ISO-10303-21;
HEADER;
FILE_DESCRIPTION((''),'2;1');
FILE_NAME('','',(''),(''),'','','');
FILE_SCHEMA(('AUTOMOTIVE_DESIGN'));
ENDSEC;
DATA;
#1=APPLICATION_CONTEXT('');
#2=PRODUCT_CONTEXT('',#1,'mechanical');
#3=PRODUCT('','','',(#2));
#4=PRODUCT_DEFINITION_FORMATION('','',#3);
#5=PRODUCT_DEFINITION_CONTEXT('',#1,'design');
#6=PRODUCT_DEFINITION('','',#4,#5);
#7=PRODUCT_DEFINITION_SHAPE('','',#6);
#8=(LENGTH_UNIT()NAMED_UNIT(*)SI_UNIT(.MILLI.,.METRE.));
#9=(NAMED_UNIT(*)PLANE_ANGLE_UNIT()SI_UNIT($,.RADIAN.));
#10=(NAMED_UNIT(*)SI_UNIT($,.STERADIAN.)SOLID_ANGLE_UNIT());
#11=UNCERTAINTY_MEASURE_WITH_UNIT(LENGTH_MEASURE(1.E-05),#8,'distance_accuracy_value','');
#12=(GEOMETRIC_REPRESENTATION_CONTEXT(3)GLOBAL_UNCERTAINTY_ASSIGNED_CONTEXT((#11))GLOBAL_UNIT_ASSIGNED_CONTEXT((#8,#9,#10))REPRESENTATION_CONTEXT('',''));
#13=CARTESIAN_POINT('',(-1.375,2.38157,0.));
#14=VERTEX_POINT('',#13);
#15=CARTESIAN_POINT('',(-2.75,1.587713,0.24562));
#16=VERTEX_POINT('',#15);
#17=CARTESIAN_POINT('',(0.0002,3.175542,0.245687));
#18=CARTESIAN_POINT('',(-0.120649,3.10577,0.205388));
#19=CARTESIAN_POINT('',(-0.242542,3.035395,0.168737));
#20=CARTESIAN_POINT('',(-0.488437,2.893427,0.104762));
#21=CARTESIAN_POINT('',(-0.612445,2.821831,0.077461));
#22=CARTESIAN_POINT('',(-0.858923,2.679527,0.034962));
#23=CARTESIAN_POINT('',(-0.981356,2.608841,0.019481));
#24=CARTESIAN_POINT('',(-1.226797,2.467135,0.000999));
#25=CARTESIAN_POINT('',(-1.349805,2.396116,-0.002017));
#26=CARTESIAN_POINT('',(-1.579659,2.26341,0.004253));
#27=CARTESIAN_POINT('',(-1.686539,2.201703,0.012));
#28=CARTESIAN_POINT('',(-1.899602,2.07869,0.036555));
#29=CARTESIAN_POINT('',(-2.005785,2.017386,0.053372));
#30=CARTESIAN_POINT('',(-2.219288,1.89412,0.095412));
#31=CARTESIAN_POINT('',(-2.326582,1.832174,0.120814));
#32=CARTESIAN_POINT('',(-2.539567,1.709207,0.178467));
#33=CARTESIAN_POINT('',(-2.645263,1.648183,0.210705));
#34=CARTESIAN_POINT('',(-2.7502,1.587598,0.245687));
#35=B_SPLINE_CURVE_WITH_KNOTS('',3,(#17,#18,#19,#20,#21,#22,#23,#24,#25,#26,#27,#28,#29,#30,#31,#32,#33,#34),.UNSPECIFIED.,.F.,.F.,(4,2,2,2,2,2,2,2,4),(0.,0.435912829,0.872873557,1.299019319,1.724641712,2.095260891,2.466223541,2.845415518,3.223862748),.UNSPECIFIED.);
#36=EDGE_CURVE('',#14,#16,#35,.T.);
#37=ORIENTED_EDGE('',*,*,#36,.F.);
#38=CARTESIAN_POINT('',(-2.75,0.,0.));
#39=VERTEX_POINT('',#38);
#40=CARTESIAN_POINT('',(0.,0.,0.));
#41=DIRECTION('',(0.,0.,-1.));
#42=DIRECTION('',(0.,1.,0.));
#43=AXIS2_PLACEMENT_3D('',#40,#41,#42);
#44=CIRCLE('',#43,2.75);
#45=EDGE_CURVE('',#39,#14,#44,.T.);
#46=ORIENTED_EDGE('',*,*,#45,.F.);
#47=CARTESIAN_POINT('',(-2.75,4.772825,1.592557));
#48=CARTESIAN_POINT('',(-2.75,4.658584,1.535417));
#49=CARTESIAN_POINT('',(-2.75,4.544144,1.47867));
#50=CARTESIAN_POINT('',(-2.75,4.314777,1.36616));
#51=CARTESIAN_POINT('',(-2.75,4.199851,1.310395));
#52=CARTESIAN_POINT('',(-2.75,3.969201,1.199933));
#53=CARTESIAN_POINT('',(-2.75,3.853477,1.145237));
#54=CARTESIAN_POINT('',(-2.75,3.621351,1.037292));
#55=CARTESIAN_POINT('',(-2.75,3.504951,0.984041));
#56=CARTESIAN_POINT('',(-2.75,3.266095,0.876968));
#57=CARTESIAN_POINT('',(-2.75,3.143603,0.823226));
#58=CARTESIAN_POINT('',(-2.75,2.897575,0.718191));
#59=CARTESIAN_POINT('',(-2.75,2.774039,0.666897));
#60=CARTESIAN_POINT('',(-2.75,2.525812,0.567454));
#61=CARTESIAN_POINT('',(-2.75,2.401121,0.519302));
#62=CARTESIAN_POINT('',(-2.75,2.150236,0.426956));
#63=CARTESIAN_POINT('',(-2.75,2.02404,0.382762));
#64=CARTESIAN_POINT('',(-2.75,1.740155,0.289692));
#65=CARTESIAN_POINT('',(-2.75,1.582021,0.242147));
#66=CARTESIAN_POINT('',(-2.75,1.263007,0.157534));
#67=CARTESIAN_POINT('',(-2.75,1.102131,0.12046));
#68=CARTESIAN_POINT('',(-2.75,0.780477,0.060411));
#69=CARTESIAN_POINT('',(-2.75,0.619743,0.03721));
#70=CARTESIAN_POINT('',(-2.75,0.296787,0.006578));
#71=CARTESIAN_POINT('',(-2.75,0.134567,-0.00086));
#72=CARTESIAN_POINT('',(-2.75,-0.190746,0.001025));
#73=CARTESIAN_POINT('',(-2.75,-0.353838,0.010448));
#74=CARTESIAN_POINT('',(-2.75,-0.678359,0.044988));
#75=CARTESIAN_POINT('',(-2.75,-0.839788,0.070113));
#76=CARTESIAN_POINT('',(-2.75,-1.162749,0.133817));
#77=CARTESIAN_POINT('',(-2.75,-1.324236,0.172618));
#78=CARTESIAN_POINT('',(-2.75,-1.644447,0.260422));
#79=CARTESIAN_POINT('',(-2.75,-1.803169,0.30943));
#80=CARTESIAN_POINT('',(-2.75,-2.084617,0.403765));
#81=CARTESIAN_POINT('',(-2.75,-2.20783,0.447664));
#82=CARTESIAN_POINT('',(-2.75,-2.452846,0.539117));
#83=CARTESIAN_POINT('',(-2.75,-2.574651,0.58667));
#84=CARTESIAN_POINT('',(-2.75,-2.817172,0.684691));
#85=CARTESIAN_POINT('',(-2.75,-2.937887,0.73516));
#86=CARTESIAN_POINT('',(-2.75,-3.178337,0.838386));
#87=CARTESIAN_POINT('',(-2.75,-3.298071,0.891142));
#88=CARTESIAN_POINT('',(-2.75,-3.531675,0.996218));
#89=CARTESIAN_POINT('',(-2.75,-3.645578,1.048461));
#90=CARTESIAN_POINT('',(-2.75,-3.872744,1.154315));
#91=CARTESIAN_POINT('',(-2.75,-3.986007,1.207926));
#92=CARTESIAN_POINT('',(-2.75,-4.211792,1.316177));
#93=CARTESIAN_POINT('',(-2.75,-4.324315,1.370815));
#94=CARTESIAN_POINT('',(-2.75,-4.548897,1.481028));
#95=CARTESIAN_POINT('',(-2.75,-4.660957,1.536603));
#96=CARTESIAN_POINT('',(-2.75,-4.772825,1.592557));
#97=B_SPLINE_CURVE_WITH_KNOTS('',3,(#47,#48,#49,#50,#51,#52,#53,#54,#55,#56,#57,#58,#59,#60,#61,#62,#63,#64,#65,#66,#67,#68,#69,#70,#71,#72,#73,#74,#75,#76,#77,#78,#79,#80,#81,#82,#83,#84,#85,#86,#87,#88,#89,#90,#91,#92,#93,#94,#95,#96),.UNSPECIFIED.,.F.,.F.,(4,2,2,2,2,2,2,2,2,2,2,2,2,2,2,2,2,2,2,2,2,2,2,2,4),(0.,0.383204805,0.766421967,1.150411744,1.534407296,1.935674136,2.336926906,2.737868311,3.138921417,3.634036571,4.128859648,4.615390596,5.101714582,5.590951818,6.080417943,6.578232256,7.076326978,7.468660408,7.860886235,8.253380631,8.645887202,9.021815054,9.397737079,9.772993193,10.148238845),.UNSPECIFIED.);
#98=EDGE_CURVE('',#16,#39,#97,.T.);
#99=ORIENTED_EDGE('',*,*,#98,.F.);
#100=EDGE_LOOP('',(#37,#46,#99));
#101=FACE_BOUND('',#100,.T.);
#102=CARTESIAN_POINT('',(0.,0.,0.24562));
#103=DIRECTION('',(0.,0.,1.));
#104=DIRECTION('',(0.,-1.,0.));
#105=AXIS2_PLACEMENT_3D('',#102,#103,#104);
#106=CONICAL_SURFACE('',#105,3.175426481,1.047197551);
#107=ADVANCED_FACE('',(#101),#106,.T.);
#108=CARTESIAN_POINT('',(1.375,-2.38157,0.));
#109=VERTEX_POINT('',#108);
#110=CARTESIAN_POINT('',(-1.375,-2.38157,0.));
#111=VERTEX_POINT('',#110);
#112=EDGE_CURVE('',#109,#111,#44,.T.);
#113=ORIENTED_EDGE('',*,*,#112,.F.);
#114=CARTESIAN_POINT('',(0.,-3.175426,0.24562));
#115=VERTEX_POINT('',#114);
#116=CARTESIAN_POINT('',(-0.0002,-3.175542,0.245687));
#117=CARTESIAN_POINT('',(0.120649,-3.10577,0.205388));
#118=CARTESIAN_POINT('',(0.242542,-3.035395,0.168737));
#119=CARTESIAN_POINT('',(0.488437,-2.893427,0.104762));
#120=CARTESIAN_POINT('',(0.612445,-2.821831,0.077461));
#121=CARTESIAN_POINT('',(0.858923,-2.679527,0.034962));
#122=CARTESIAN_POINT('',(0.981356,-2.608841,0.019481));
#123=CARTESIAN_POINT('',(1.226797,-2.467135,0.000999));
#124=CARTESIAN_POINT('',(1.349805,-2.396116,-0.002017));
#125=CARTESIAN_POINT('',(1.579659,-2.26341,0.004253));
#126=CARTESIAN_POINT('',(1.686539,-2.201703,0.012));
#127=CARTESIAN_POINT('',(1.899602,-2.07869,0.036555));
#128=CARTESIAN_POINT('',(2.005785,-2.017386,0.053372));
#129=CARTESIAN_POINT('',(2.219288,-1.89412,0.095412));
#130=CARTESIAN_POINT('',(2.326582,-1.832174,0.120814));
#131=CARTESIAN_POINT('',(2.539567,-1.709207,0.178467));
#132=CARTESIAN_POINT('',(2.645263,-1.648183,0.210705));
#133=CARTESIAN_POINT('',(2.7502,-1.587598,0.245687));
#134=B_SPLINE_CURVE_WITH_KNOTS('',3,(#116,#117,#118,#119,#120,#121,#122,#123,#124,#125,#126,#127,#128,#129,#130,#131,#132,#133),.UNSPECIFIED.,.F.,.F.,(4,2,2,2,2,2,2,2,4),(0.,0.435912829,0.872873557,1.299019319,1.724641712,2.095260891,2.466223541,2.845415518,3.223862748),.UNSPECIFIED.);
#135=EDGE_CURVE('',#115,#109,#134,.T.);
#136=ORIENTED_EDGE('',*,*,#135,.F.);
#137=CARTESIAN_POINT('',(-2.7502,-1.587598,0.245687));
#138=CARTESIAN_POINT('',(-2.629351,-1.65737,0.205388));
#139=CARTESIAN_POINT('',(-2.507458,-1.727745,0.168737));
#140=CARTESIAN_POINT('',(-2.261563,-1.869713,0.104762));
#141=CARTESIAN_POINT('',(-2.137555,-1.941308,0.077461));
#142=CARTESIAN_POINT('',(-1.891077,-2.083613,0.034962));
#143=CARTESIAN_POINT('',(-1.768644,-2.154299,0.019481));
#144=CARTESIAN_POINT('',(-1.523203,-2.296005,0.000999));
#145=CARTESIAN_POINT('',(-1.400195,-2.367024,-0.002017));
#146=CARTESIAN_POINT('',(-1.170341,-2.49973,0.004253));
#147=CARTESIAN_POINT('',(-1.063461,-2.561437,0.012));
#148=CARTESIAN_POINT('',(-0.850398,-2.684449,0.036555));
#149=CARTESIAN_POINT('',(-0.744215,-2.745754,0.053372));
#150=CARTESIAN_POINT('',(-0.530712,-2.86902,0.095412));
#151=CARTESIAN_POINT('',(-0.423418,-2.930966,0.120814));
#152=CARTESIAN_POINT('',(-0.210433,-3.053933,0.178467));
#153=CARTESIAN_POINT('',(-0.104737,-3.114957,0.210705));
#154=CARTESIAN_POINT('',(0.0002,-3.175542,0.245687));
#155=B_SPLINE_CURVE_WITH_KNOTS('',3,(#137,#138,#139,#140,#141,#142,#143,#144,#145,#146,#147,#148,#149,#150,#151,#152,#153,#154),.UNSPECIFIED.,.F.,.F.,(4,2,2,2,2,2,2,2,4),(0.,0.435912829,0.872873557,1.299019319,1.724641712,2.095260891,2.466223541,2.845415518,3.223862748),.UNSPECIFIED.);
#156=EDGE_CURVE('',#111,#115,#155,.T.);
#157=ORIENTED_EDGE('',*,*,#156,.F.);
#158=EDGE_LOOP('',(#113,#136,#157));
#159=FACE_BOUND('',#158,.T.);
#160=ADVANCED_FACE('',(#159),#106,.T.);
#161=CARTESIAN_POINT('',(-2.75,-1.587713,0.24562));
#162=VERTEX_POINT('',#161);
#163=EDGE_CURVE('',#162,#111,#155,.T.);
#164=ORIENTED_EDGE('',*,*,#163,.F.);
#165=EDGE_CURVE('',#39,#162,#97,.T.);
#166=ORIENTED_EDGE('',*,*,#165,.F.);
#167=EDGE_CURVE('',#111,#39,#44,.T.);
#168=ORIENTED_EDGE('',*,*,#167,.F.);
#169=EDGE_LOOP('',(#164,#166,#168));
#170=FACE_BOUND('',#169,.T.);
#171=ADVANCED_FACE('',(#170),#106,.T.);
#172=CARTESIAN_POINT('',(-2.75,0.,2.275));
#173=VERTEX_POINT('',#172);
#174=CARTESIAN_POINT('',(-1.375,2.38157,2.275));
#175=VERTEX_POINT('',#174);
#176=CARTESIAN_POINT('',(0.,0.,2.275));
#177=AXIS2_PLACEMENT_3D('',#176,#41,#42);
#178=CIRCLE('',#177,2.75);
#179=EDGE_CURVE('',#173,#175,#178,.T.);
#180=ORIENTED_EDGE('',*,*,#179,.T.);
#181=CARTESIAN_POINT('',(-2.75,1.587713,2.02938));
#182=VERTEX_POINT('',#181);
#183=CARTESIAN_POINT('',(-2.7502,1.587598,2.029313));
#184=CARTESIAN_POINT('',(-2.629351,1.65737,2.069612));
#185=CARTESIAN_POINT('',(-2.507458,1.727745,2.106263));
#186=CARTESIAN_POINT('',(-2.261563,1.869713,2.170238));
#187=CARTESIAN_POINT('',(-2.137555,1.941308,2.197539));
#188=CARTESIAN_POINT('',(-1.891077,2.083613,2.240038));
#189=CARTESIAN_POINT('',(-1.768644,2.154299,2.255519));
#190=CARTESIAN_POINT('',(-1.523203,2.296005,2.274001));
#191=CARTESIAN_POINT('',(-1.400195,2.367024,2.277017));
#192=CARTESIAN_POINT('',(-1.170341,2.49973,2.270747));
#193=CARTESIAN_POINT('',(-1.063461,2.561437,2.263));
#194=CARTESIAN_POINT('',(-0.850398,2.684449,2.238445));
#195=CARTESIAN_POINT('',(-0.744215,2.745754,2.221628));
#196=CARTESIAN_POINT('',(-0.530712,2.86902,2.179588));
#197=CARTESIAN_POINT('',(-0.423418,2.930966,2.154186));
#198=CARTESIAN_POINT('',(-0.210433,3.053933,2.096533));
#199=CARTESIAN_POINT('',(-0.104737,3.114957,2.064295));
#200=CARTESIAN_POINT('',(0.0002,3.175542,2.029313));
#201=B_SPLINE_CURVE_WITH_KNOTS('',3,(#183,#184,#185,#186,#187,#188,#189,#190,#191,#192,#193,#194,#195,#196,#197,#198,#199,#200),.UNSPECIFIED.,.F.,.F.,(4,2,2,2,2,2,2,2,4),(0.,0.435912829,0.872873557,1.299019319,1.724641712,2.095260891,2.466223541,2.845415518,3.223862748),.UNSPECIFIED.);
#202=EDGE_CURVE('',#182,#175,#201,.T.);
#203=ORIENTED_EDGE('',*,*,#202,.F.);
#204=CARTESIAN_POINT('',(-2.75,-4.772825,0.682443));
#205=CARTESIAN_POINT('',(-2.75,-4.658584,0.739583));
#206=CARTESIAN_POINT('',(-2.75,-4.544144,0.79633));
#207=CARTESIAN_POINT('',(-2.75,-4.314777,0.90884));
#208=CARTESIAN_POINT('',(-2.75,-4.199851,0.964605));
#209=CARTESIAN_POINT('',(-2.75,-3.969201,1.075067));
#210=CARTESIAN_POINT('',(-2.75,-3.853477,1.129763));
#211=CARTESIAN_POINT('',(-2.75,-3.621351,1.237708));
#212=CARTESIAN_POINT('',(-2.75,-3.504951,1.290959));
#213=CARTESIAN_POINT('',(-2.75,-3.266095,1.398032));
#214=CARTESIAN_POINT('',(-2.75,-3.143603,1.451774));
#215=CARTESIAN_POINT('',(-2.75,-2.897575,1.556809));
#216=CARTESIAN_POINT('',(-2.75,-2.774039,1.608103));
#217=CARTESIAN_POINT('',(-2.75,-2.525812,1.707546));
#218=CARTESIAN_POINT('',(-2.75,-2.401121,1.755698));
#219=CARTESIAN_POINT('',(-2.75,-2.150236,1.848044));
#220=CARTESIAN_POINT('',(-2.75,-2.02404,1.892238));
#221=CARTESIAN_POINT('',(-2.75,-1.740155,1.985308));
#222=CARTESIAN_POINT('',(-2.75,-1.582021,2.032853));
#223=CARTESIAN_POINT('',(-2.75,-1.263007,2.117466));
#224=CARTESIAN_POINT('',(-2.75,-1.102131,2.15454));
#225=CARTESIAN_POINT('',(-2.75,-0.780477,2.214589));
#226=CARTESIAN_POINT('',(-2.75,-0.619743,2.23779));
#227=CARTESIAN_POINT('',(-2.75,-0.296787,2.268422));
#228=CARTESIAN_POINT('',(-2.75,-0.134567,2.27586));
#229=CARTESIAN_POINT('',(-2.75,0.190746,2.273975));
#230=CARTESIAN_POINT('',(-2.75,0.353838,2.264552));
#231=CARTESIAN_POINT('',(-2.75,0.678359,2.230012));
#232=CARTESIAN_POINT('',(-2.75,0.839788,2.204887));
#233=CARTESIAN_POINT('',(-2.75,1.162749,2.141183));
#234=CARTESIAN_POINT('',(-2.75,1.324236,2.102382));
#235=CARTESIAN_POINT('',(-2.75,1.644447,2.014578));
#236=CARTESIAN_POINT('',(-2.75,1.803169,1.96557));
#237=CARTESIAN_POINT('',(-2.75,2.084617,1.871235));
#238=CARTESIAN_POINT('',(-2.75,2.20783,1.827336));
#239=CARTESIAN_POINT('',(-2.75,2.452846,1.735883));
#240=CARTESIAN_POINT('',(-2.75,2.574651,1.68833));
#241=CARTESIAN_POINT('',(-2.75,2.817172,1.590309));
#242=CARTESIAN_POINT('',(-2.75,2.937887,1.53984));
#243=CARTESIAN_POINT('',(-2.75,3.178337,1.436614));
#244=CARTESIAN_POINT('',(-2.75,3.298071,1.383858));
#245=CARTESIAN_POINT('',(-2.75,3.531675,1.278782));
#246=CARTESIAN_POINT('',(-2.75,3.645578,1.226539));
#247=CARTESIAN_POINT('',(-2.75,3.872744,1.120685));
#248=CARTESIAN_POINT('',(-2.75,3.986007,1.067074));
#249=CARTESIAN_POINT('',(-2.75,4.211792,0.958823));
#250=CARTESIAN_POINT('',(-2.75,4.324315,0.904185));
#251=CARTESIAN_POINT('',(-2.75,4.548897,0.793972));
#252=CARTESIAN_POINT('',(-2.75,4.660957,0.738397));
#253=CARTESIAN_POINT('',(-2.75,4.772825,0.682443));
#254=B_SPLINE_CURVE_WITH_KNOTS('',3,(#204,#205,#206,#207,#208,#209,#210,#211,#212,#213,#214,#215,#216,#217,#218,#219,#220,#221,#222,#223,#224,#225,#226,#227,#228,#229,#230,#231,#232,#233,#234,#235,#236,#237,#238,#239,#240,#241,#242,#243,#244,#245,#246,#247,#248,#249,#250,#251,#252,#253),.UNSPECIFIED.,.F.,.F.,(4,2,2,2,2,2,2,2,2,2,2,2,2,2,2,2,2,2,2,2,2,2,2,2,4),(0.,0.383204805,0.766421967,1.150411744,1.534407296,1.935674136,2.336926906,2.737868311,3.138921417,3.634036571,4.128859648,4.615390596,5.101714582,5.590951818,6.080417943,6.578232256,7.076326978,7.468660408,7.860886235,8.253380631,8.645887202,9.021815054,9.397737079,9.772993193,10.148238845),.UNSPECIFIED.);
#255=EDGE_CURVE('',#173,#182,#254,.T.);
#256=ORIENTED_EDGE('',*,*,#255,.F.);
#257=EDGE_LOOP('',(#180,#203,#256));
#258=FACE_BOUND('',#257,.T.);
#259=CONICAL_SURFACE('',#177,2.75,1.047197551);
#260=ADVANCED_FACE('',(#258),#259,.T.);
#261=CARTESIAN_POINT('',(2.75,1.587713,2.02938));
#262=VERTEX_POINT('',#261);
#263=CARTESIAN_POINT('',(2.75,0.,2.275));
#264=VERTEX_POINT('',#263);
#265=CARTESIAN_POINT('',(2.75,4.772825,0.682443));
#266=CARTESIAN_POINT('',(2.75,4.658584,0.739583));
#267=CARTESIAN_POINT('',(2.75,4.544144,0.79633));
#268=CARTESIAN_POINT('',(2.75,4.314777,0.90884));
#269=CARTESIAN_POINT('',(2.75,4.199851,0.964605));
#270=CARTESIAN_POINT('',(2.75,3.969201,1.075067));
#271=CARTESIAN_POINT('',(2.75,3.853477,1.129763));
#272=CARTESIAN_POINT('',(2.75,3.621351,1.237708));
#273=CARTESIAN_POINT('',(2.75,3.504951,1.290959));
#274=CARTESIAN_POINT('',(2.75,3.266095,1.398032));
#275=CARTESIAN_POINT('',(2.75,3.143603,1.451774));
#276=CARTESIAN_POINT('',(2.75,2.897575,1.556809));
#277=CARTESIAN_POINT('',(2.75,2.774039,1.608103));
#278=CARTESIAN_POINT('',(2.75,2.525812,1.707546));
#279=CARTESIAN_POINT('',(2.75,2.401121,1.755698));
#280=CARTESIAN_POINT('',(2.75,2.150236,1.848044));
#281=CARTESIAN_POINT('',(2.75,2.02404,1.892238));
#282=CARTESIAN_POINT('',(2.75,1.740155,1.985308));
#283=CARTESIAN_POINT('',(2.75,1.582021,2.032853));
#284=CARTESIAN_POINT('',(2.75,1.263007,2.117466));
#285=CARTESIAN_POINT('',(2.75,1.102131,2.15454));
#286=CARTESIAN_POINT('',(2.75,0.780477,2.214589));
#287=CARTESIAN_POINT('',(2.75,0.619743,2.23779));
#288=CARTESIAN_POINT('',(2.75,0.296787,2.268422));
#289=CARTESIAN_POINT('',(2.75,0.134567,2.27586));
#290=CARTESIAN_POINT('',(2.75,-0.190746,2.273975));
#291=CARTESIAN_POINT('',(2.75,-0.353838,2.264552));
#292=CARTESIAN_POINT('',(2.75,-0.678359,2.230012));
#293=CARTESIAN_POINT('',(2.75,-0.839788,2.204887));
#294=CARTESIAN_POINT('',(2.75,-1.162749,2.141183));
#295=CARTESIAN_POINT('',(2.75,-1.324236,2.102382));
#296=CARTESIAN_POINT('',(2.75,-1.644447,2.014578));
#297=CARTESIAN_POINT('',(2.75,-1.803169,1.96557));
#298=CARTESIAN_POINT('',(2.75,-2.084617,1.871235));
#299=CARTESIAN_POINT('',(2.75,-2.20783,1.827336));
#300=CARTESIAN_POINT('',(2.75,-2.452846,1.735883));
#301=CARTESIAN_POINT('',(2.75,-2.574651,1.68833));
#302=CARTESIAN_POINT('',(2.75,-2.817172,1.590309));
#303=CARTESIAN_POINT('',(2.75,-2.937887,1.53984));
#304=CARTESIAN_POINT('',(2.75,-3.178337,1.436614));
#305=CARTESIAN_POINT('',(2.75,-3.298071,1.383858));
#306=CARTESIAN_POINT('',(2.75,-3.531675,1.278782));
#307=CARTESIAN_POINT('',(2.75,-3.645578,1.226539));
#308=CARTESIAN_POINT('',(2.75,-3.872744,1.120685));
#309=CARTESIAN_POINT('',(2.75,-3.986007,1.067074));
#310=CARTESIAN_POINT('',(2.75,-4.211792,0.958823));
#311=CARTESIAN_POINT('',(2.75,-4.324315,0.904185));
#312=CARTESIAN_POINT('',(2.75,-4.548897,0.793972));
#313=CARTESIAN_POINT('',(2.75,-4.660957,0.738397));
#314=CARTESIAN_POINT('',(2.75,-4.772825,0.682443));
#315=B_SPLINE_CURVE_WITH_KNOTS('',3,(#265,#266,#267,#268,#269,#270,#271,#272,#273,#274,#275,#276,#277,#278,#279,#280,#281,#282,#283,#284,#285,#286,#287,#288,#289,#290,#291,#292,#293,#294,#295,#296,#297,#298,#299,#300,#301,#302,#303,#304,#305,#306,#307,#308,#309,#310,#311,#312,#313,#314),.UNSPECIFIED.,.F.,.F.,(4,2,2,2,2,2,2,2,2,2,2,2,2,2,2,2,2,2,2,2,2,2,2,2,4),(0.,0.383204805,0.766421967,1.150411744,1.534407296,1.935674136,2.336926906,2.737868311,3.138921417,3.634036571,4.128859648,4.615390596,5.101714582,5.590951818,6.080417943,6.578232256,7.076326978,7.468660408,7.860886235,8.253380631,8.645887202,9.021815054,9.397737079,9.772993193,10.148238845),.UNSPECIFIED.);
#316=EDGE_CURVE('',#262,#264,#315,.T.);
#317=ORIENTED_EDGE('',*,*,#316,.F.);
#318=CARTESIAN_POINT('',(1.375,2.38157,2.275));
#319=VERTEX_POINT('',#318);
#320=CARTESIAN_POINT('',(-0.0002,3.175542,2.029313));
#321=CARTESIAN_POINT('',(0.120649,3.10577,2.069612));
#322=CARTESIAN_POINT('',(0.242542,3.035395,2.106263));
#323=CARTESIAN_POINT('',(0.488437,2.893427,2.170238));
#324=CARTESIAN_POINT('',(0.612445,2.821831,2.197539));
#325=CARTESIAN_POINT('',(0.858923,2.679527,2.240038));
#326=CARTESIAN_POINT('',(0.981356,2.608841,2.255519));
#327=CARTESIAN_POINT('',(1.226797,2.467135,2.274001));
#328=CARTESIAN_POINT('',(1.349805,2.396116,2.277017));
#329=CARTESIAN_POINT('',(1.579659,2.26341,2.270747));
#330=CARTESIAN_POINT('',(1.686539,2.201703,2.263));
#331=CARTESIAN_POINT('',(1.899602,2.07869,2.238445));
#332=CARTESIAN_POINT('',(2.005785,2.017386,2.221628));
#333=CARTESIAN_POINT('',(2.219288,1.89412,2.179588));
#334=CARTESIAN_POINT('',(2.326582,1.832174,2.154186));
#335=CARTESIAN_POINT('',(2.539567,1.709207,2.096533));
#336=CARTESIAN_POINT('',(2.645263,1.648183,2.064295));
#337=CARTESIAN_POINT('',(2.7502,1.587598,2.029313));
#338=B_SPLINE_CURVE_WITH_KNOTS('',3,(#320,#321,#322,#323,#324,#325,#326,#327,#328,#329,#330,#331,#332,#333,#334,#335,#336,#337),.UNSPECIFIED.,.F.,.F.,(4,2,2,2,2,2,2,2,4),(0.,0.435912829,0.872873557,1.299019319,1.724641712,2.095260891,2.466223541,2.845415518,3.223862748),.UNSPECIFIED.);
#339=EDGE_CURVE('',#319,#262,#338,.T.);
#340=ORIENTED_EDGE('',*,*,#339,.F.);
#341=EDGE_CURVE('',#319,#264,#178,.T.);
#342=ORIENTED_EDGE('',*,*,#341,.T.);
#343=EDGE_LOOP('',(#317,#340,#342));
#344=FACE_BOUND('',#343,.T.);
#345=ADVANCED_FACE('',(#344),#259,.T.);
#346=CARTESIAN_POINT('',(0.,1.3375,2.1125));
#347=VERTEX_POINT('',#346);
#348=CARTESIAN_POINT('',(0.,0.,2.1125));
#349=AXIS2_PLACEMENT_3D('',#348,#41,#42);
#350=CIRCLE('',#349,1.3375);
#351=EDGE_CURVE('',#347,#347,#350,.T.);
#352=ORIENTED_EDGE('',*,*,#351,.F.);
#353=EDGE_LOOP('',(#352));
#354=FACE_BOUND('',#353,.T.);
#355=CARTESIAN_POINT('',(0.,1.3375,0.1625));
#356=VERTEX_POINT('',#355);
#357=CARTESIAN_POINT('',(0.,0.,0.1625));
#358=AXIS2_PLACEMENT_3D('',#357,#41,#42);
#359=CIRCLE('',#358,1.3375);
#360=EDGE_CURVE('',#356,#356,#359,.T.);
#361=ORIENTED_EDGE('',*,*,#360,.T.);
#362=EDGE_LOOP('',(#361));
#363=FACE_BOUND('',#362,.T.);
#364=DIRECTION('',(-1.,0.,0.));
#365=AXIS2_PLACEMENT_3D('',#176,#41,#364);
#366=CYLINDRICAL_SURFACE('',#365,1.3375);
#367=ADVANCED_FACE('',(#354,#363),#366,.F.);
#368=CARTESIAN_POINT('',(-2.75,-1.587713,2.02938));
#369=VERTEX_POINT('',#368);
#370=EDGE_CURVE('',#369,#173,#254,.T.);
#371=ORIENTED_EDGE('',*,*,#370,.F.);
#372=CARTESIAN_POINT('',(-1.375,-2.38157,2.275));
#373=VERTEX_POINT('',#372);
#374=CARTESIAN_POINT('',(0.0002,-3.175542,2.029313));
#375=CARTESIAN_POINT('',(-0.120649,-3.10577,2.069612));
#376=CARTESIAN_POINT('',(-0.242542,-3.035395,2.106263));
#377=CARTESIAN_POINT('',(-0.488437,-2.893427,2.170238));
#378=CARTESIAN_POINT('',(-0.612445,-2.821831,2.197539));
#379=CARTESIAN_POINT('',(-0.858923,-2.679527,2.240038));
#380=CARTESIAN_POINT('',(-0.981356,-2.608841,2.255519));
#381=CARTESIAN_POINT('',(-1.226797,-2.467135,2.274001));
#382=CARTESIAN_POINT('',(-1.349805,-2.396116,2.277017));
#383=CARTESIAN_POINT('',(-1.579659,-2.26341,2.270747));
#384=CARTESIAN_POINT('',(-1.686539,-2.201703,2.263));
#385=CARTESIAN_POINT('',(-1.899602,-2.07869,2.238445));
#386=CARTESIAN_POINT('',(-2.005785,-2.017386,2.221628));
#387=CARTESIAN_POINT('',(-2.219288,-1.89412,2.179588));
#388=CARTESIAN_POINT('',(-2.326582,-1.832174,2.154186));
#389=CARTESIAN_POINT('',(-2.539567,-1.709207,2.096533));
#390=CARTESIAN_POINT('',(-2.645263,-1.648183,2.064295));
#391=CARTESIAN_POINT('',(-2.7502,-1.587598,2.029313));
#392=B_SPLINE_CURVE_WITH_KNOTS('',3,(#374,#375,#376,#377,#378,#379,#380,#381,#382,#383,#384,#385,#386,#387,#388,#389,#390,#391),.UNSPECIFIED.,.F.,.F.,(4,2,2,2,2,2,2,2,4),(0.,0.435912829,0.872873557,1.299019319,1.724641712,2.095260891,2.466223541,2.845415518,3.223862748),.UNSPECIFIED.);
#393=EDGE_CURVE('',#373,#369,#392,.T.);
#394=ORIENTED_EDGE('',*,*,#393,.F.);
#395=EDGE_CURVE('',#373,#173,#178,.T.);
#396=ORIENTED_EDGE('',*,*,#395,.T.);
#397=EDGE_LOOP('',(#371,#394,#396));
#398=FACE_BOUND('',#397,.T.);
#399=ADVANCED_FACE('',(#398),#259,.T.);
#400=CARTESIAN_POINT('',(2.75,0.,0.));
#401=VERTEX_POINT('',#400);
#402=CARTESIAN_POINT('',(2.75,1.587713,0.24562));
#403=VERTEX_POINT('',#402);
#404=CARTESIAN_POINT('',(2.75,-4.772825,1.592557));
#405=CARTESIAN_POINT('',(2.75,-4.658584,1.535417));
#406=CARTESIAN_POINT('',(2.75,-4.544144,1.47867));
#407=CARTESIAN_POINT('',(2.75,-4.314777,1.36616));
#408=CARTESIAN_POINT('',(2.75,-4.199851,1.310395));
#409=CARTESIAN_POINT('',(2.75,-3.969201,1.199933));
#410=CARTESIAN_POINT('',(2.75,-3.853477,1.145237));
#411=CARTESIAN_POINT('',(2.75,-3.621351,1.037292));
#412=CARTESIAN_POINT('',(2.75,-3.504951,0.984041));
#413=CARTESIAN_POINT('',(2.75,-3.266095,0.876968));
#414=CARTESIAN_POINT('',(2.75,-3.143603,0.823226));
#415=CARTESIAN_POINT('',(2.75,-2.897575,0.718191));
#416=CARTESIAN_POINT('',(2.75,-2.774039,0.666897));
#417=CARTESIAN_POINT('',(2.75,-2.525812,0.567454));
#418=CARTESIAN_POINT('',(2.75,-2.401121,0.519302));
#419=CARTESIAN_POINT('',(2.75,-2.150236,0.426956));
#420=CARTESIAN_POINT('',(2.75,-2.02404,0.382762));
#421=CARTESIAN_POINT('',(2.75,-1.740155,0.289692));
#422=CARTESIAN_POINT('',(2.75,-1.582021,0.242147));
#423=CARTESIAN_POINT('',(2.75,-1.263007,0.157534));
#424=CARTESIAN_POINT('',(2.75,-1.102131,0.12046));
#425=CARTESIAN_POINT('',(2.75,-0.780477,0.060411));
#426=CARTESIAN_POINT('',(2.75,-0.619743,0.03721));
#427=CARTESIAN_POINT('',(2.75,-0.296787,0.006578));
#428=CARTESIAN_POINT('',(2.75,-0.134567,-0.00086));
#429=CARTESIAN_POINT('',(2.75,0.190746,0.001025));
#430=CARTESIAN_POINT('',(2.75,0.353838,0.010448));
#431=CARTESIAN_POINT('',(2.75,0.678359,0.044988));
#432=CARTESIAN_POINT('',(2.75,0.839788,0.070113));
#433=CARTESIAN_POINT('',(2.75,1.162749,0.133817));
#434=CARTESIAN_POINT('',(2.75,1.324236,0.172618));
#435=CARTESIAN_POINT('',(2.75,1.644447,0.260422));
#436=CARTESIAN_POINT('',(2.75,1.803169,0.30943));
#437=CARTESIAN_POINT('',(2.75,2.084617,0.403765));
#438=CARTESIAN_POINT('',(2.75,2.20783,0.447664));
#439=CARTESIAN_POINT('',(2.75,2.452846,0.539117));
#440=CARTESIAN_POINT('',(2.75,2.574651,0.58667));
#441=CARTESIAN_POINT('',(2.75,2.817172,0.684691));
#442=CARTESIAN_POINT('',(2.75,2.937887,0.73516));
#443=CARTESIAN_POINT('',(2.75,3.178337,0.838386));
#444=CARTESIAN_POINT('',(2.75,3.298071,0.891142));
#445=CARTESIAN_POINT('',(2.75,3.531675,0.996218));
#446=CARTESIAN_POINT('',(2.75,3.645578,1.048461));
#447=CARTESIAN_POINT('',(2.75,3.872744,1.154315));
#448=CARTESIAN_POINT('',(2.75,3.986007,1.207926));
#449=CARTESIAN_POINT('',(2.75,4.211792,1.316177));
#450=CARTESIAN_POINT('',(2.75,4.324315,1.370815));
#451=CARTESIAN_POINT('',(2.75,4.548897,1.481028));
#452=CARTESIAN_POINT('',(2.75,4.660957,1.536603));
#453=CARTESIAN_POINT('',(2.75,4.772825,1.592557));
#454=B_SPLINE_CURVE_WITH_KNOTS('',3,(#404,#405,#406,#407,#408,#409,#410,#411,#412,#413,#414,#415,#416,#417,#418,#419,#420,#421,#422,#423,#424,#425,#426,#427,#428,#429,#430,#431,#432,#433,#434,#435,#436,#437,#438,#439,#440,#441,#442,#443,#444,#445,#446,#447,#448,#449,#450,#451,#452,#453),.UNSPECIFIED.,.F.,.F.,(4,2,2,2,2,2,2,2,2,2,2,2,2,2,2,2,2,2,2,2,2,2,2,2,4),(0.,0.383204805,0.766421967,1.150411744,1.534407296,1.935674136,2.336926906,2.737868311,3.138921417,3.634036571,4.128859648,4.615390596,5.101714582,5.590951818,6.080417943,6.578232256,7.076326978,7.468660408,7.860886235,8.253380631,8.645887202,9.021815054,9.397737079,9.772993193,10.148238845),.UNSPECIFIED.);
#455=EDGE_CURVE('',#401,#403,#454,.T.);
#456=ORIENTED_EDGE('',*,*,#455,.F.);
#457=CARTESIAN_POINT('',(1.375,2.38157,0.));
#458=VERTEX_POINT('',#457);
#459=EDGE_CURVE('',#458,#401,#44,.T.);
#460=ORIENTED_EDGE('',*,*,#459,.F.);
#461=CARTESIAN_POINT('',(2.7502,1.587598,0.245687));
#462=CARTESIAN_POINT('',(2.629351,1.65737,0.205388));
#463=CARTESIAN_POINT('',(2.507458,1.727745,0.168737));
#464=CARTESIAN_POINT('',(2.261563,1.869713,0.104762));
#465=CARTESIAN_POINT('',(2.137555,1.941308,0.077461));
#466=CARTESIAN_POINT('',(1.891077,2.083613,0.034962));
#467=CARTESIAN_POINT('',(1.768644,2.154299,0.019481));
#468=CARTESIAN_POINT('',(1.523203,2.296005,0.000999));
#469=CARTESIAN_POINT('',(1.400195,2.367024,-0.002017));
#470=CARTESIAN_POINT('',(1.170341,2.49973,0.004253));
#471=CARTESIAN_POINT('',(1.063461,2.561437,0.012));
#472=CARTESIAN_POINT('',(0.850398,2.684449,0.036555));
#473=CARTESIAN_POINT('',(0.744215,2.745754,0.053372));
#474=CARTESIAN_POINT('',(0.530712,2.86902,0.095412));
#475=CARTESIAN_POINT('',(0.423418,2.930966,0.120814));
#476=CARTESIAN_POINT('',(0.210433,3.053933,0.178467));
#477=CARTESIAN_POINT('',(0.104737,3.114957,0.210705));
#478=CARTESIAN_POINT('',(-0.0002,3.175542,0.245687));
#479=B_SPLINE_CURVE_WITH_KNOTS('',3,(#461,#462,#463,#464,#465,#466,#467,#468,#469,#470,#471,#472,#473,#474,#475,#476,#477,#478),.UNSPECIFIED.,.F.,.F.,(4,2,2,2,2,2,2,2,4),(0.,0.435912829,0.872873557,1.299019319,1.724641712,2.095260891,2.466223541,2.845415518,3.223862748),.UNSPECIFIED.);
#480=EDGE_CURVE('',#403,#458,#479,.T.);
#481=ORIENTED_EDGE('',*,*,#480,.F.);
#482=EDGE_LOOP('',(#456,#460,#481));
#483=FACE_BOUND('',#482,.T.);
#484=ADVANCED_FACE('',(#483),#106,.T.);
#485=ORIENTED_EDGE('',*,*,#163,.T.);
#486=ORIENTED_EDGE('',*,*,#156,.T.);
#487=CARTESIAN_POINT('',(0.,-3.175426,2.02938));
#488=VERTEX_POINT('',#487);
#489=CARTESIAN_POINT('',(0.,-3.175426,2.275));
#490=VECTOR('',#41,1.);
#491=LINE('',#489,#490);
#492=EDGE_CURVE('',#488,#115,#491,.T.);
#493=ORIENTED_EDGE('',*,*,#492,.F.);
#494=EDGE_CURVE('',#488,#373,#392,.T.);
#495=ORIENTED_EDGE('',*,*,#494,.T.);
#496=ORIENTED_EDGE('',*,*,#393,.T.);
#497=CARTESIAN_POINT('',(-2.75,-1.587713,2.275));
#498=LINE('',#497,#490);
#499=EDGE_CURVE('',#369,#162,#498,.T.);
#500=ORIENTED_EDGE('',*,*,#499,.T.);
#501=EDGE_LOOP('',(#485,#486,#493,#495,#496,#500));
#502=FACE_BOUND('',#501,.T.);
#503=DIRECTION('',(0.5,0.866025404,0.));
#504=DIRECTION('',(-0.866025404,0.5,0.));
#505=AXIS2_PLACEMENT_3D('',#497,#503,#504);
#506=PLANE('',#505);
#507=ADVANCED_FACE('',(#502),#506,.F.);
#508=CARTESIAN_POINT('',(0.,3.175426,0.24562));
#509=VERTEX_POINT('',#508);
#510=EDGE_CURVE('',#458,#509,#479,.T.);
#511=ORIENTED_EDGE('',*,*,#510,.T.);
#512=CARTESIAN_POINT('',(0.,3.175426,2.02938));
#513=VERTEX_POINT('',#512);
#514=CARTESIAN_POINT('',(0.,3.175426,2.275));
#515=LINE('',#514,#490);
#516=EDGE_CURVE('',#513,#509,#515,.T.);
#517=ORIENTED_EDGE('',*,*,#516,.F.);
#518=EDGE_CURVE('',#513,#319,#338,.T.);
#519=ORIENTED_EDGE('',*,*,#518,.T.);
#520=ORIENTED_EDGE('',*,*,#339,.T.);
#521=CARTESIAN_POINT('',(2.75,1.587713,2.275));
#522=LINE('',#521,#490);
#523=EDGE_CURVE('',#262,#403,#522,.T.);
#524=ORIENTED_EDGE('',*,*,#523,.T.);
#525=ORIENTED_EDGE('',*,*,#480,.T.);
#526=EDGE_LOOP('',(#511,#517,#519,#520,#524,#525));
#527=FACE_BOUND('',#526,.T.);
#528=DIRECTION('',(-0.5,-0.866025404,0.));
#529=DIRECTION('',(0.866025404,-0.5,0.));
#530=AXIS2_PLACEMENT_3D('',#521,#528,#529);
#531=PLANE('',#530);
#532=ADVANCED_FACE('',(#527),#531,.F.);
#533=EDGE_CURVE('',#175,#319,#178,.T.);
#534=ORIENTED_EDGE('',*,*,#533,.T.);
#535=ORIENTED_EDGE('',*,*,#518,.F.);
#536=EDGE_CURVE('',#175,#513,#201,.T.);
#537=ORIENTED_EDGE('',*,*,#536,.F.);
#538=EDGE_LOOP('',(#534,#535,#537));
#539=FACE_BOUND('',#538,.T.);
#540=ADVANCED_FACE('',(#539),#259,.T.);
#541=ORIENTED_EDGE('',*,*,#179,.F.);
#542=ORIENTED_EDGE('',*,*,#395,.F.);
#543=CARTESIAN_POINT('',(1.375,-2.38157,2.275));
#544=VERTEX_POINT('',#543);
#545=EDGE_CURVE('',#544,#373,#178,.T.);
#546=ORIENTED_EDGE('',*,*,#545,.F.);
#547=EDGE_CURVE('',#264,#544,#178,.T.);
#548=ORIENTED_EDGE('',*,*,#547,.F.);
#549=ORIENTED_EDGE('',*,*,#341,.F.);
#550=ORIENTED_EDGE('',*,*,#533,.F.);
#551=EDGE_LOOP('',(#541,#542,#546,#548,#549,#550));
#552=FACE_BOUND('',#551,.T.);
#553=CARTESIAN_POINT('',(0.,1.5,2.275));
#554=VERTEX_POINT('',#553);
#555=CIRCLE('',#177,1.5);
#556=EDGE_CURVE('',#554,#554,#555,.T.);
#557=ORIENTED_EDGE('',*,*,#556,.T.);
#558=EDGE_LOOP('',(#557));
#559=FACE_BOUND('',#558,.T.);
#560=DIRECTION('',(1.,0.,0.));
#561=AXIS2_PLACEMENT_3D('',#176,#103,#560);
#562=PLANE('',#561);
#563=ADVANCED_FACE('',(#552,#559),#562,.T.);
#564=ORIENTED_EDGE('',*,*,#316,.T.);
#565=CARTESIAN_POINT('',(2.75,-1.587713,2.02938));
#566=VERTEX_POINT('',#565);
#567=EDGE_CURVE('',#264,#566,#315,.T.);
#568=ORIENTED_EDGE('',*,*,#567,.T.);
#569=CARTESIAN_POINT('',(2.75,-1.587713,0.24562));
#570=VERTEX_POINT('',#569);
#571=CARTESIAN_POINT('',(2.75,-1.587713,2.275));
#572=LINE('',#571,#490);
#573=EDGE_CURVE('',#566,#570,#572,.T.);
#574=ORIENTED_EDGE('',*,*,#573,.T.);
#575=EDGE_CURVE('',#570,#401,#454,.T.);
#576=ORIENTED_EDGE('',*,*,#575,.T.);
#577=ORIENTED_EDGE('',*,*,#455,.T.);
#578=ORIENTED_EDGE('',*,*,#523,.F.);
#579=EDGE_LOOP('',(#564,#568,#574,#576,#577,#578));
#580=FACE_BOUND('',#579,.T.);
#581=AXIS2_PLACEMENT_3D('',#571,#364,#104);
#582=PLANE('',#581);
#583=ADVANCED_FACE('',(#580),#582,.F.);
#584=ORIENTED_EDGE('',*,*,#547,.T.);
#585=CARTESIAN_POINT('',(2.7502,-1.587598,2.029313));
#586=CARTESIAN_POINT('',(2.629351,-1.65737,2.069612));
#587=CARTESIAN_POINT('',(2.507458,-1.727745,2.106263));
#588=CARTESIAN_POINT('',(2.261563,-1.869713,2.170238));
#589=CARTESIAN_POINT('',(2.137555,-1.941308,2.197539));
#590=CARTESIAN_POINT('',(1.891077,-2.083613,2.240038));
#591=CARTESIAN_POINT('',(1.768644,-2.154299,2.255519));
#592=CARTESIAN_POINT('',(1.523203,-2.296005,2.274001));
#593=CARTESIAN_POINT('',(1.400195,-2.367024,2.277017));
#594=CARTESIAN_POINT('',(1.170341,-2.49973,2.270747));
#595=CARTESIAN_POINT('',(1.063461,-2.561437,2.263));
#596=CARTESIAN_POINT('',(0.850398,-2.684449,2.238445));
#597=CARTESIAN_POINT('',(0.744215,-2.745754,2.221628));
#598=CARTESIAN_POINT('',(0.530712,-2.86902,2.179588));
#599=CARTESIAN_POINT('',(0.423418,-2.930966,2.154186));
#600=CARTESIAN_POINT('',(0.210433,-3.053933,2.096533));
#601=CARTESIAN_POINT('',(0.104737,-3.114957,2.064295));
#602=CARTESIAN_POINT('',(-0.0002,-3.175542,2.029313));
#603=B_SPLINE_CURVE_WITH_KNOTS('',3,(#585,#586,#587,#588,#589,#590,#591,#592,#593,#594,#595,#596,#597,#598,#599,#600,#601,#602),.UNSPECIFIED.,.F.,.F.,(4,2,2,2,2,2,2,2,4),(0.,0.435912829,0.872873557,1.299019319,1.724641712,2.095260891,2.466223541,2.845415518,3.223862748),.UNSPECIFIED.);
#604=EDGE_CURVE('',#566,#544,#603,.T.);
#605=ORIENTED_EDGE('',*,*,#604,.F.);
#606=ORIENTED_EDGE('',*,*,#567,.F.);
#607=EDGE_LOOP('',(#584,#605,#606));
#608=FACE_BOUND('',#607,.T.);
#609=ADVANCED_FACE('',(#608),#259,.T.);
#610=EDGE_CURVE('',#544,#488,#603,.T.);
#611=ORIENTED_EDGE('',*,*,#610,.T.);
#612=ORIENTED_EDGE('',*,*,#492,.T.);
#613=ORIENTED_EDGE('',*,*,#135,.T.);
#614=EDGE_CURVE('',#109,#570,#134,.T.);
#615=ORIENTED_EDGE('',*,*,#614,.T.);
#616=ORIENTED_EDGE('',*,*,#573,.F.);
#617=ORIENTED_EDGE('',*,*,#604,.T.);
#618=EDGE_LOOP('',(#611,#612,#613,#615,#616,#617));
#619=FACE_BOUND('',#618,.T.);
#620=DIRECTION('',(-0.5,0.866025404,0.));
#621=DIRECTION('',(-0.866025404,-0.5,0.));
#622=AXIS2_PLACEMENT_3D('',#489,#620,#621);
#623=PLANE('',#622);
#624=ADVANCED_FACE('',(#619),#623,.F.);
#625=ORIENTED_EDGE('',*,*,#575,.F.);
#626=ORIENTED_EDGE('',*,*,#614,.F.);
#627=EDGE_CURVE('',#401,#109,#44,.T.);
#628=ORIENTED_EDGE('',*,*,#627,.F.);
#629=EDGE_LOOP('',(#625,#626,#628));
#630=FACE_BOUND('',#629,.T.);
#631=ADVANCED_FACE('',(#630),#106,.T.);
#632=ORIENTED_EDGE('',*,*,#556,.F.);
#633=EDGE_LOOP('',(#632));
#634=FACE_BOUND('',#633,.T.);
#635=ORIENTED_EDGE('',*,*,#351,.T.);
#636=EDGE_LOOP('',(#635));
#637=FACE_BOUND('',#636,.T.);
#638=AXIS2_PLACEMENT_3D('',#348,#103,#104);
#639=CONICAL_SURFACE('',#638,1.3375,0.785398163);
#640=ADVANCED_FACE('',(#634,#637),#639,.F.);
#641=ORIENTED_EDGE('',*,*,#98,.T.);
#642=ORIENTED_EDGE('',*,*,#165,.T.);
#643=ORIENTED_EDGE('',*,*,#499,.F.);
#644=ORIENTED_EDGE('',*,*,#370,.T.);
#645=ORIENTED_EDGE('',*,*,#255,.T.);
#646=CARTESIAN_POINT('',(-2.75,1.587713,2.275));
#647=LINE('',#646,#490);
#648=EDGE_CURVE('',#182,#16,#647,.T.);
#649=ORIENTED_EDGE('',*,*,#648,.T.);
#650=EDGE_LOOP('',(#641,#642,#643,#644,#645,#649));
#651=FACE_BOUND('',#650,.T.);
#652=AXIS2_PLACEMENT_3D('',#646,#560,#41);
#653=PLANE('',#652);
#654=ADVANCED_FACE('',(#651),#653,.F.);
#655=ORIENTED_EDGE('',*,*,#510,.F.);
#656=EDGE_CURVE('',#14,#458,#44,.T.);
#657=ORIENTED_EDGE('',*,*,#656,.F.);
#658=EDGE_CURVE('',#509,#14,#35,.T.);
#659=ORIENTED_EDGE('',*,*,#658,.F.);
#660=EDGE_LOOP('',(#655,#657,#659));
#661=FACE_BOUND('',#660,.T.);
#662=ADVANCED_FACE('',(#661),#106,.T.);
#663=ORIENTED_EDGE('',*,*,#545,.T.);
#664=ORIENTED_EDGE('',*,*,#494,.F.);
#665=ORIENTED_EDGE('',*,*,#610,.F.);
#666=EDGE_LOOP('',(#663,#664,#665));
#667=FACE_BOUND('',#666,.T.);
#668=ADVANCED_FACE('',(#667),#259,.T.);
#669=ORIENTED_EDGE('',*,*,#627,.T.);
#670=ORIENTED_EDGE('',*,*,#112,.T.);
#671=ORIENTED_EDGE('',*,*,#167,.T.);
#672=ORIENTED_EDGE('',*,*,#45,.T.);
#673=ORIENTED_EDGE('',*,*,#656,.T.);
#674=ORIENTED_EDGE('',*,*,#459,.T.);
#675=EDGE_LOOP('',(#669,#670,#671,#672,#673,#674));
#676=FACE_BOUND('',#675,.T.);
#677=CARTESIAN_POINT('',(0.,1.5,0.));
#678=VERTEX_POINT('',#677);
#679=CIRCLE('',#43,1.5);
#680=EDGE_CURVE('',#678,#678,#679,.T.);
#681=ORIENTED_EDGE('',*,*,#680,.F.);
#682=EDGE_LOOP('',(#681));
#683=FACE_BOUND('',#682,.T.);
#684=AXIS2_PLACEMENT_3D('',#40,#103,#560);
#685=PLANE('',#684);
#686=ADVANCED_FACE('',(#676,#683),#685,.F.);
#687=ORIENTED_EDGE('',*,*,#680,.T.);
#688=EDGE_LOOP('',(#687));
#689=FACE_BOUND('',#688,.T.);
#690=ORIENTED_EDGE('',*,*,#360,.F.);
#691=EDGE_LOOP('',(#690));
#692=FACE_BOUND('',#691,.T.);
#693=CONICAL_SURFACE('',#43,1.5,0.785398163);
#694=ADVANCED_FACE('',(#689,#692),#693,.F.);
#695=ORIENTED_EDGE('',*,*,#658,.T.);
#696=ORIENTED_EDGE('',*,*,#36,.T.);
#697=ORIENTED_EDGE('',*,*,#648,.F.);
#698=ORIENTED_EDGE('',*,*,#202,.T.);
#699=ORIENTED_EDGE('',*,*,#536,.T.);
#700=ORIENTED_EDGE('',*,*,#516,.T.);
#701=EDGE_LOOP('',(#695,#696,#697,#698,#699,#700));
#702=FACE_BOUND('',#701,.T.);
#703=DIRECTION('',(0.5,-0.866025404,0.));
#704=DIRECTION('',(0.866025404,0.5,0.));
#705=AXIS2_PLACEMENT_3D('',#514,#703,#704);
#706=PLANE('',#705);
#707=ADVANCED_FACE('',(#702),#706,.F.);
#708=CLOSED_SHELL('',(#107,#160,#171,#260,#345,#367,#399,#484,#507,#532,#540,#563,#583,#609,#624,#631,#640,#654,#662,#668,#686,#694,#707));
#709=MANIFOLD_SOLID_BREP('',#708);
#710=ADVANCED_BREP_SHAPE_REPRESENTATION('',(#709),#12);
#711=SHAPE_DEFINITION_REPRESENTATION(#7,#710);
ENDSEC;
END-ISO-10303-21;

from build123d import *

# Parameters (mm, degrees)
SKETCH1_R           = 1.3375
BOSS_EXTRUDE1_DEPTH = 2.275


with BuildPart() as part:
    # Sketch1 → Boss-Extrude1 (new body)
    with BuildSketch(Plane.XY):
        Polygon((0, 3.175426481), (-2.75, 1.58771324), (-2.75, -1.58771324), (0, -3.175426481), (2.75, -1.58771324), (2.75, 1.58771324), align=None)
        Circle(SKETCH1_R, mode=Mode.SUBTRACT)
    extrude(amount=BOSS_EXTRUDE1_DEPTH)

    # Sketch2 → Cut-Revolve1 (revolve, cut)
    with BuildSketch(Plane(origin=(0, 0, 0), x_dir=(0, 0, -1), z_dir=(1, 0, 0))):
        Polygon((-2.275, 1.3375), (-2.275, 1.5), (-2.1125, 1.3375), align=None)
        Polygon((-2.275, 3.175426481), (-2.275, 2.75), (-2.029379907, 3.175426481), align=None)
        Polygon((-0.245620093, 3.175426481), (0, 3.175426481), (0, 2.75), align=None)
        Polygon((-0.1625, 1.3375), (0, 1.3375), (0, 1.5), align=None)
    revolve(axis=Axis((0, 0, 0), (0, 0, 1)), mode=Mode.SUBTRACT)


solid = part.part
